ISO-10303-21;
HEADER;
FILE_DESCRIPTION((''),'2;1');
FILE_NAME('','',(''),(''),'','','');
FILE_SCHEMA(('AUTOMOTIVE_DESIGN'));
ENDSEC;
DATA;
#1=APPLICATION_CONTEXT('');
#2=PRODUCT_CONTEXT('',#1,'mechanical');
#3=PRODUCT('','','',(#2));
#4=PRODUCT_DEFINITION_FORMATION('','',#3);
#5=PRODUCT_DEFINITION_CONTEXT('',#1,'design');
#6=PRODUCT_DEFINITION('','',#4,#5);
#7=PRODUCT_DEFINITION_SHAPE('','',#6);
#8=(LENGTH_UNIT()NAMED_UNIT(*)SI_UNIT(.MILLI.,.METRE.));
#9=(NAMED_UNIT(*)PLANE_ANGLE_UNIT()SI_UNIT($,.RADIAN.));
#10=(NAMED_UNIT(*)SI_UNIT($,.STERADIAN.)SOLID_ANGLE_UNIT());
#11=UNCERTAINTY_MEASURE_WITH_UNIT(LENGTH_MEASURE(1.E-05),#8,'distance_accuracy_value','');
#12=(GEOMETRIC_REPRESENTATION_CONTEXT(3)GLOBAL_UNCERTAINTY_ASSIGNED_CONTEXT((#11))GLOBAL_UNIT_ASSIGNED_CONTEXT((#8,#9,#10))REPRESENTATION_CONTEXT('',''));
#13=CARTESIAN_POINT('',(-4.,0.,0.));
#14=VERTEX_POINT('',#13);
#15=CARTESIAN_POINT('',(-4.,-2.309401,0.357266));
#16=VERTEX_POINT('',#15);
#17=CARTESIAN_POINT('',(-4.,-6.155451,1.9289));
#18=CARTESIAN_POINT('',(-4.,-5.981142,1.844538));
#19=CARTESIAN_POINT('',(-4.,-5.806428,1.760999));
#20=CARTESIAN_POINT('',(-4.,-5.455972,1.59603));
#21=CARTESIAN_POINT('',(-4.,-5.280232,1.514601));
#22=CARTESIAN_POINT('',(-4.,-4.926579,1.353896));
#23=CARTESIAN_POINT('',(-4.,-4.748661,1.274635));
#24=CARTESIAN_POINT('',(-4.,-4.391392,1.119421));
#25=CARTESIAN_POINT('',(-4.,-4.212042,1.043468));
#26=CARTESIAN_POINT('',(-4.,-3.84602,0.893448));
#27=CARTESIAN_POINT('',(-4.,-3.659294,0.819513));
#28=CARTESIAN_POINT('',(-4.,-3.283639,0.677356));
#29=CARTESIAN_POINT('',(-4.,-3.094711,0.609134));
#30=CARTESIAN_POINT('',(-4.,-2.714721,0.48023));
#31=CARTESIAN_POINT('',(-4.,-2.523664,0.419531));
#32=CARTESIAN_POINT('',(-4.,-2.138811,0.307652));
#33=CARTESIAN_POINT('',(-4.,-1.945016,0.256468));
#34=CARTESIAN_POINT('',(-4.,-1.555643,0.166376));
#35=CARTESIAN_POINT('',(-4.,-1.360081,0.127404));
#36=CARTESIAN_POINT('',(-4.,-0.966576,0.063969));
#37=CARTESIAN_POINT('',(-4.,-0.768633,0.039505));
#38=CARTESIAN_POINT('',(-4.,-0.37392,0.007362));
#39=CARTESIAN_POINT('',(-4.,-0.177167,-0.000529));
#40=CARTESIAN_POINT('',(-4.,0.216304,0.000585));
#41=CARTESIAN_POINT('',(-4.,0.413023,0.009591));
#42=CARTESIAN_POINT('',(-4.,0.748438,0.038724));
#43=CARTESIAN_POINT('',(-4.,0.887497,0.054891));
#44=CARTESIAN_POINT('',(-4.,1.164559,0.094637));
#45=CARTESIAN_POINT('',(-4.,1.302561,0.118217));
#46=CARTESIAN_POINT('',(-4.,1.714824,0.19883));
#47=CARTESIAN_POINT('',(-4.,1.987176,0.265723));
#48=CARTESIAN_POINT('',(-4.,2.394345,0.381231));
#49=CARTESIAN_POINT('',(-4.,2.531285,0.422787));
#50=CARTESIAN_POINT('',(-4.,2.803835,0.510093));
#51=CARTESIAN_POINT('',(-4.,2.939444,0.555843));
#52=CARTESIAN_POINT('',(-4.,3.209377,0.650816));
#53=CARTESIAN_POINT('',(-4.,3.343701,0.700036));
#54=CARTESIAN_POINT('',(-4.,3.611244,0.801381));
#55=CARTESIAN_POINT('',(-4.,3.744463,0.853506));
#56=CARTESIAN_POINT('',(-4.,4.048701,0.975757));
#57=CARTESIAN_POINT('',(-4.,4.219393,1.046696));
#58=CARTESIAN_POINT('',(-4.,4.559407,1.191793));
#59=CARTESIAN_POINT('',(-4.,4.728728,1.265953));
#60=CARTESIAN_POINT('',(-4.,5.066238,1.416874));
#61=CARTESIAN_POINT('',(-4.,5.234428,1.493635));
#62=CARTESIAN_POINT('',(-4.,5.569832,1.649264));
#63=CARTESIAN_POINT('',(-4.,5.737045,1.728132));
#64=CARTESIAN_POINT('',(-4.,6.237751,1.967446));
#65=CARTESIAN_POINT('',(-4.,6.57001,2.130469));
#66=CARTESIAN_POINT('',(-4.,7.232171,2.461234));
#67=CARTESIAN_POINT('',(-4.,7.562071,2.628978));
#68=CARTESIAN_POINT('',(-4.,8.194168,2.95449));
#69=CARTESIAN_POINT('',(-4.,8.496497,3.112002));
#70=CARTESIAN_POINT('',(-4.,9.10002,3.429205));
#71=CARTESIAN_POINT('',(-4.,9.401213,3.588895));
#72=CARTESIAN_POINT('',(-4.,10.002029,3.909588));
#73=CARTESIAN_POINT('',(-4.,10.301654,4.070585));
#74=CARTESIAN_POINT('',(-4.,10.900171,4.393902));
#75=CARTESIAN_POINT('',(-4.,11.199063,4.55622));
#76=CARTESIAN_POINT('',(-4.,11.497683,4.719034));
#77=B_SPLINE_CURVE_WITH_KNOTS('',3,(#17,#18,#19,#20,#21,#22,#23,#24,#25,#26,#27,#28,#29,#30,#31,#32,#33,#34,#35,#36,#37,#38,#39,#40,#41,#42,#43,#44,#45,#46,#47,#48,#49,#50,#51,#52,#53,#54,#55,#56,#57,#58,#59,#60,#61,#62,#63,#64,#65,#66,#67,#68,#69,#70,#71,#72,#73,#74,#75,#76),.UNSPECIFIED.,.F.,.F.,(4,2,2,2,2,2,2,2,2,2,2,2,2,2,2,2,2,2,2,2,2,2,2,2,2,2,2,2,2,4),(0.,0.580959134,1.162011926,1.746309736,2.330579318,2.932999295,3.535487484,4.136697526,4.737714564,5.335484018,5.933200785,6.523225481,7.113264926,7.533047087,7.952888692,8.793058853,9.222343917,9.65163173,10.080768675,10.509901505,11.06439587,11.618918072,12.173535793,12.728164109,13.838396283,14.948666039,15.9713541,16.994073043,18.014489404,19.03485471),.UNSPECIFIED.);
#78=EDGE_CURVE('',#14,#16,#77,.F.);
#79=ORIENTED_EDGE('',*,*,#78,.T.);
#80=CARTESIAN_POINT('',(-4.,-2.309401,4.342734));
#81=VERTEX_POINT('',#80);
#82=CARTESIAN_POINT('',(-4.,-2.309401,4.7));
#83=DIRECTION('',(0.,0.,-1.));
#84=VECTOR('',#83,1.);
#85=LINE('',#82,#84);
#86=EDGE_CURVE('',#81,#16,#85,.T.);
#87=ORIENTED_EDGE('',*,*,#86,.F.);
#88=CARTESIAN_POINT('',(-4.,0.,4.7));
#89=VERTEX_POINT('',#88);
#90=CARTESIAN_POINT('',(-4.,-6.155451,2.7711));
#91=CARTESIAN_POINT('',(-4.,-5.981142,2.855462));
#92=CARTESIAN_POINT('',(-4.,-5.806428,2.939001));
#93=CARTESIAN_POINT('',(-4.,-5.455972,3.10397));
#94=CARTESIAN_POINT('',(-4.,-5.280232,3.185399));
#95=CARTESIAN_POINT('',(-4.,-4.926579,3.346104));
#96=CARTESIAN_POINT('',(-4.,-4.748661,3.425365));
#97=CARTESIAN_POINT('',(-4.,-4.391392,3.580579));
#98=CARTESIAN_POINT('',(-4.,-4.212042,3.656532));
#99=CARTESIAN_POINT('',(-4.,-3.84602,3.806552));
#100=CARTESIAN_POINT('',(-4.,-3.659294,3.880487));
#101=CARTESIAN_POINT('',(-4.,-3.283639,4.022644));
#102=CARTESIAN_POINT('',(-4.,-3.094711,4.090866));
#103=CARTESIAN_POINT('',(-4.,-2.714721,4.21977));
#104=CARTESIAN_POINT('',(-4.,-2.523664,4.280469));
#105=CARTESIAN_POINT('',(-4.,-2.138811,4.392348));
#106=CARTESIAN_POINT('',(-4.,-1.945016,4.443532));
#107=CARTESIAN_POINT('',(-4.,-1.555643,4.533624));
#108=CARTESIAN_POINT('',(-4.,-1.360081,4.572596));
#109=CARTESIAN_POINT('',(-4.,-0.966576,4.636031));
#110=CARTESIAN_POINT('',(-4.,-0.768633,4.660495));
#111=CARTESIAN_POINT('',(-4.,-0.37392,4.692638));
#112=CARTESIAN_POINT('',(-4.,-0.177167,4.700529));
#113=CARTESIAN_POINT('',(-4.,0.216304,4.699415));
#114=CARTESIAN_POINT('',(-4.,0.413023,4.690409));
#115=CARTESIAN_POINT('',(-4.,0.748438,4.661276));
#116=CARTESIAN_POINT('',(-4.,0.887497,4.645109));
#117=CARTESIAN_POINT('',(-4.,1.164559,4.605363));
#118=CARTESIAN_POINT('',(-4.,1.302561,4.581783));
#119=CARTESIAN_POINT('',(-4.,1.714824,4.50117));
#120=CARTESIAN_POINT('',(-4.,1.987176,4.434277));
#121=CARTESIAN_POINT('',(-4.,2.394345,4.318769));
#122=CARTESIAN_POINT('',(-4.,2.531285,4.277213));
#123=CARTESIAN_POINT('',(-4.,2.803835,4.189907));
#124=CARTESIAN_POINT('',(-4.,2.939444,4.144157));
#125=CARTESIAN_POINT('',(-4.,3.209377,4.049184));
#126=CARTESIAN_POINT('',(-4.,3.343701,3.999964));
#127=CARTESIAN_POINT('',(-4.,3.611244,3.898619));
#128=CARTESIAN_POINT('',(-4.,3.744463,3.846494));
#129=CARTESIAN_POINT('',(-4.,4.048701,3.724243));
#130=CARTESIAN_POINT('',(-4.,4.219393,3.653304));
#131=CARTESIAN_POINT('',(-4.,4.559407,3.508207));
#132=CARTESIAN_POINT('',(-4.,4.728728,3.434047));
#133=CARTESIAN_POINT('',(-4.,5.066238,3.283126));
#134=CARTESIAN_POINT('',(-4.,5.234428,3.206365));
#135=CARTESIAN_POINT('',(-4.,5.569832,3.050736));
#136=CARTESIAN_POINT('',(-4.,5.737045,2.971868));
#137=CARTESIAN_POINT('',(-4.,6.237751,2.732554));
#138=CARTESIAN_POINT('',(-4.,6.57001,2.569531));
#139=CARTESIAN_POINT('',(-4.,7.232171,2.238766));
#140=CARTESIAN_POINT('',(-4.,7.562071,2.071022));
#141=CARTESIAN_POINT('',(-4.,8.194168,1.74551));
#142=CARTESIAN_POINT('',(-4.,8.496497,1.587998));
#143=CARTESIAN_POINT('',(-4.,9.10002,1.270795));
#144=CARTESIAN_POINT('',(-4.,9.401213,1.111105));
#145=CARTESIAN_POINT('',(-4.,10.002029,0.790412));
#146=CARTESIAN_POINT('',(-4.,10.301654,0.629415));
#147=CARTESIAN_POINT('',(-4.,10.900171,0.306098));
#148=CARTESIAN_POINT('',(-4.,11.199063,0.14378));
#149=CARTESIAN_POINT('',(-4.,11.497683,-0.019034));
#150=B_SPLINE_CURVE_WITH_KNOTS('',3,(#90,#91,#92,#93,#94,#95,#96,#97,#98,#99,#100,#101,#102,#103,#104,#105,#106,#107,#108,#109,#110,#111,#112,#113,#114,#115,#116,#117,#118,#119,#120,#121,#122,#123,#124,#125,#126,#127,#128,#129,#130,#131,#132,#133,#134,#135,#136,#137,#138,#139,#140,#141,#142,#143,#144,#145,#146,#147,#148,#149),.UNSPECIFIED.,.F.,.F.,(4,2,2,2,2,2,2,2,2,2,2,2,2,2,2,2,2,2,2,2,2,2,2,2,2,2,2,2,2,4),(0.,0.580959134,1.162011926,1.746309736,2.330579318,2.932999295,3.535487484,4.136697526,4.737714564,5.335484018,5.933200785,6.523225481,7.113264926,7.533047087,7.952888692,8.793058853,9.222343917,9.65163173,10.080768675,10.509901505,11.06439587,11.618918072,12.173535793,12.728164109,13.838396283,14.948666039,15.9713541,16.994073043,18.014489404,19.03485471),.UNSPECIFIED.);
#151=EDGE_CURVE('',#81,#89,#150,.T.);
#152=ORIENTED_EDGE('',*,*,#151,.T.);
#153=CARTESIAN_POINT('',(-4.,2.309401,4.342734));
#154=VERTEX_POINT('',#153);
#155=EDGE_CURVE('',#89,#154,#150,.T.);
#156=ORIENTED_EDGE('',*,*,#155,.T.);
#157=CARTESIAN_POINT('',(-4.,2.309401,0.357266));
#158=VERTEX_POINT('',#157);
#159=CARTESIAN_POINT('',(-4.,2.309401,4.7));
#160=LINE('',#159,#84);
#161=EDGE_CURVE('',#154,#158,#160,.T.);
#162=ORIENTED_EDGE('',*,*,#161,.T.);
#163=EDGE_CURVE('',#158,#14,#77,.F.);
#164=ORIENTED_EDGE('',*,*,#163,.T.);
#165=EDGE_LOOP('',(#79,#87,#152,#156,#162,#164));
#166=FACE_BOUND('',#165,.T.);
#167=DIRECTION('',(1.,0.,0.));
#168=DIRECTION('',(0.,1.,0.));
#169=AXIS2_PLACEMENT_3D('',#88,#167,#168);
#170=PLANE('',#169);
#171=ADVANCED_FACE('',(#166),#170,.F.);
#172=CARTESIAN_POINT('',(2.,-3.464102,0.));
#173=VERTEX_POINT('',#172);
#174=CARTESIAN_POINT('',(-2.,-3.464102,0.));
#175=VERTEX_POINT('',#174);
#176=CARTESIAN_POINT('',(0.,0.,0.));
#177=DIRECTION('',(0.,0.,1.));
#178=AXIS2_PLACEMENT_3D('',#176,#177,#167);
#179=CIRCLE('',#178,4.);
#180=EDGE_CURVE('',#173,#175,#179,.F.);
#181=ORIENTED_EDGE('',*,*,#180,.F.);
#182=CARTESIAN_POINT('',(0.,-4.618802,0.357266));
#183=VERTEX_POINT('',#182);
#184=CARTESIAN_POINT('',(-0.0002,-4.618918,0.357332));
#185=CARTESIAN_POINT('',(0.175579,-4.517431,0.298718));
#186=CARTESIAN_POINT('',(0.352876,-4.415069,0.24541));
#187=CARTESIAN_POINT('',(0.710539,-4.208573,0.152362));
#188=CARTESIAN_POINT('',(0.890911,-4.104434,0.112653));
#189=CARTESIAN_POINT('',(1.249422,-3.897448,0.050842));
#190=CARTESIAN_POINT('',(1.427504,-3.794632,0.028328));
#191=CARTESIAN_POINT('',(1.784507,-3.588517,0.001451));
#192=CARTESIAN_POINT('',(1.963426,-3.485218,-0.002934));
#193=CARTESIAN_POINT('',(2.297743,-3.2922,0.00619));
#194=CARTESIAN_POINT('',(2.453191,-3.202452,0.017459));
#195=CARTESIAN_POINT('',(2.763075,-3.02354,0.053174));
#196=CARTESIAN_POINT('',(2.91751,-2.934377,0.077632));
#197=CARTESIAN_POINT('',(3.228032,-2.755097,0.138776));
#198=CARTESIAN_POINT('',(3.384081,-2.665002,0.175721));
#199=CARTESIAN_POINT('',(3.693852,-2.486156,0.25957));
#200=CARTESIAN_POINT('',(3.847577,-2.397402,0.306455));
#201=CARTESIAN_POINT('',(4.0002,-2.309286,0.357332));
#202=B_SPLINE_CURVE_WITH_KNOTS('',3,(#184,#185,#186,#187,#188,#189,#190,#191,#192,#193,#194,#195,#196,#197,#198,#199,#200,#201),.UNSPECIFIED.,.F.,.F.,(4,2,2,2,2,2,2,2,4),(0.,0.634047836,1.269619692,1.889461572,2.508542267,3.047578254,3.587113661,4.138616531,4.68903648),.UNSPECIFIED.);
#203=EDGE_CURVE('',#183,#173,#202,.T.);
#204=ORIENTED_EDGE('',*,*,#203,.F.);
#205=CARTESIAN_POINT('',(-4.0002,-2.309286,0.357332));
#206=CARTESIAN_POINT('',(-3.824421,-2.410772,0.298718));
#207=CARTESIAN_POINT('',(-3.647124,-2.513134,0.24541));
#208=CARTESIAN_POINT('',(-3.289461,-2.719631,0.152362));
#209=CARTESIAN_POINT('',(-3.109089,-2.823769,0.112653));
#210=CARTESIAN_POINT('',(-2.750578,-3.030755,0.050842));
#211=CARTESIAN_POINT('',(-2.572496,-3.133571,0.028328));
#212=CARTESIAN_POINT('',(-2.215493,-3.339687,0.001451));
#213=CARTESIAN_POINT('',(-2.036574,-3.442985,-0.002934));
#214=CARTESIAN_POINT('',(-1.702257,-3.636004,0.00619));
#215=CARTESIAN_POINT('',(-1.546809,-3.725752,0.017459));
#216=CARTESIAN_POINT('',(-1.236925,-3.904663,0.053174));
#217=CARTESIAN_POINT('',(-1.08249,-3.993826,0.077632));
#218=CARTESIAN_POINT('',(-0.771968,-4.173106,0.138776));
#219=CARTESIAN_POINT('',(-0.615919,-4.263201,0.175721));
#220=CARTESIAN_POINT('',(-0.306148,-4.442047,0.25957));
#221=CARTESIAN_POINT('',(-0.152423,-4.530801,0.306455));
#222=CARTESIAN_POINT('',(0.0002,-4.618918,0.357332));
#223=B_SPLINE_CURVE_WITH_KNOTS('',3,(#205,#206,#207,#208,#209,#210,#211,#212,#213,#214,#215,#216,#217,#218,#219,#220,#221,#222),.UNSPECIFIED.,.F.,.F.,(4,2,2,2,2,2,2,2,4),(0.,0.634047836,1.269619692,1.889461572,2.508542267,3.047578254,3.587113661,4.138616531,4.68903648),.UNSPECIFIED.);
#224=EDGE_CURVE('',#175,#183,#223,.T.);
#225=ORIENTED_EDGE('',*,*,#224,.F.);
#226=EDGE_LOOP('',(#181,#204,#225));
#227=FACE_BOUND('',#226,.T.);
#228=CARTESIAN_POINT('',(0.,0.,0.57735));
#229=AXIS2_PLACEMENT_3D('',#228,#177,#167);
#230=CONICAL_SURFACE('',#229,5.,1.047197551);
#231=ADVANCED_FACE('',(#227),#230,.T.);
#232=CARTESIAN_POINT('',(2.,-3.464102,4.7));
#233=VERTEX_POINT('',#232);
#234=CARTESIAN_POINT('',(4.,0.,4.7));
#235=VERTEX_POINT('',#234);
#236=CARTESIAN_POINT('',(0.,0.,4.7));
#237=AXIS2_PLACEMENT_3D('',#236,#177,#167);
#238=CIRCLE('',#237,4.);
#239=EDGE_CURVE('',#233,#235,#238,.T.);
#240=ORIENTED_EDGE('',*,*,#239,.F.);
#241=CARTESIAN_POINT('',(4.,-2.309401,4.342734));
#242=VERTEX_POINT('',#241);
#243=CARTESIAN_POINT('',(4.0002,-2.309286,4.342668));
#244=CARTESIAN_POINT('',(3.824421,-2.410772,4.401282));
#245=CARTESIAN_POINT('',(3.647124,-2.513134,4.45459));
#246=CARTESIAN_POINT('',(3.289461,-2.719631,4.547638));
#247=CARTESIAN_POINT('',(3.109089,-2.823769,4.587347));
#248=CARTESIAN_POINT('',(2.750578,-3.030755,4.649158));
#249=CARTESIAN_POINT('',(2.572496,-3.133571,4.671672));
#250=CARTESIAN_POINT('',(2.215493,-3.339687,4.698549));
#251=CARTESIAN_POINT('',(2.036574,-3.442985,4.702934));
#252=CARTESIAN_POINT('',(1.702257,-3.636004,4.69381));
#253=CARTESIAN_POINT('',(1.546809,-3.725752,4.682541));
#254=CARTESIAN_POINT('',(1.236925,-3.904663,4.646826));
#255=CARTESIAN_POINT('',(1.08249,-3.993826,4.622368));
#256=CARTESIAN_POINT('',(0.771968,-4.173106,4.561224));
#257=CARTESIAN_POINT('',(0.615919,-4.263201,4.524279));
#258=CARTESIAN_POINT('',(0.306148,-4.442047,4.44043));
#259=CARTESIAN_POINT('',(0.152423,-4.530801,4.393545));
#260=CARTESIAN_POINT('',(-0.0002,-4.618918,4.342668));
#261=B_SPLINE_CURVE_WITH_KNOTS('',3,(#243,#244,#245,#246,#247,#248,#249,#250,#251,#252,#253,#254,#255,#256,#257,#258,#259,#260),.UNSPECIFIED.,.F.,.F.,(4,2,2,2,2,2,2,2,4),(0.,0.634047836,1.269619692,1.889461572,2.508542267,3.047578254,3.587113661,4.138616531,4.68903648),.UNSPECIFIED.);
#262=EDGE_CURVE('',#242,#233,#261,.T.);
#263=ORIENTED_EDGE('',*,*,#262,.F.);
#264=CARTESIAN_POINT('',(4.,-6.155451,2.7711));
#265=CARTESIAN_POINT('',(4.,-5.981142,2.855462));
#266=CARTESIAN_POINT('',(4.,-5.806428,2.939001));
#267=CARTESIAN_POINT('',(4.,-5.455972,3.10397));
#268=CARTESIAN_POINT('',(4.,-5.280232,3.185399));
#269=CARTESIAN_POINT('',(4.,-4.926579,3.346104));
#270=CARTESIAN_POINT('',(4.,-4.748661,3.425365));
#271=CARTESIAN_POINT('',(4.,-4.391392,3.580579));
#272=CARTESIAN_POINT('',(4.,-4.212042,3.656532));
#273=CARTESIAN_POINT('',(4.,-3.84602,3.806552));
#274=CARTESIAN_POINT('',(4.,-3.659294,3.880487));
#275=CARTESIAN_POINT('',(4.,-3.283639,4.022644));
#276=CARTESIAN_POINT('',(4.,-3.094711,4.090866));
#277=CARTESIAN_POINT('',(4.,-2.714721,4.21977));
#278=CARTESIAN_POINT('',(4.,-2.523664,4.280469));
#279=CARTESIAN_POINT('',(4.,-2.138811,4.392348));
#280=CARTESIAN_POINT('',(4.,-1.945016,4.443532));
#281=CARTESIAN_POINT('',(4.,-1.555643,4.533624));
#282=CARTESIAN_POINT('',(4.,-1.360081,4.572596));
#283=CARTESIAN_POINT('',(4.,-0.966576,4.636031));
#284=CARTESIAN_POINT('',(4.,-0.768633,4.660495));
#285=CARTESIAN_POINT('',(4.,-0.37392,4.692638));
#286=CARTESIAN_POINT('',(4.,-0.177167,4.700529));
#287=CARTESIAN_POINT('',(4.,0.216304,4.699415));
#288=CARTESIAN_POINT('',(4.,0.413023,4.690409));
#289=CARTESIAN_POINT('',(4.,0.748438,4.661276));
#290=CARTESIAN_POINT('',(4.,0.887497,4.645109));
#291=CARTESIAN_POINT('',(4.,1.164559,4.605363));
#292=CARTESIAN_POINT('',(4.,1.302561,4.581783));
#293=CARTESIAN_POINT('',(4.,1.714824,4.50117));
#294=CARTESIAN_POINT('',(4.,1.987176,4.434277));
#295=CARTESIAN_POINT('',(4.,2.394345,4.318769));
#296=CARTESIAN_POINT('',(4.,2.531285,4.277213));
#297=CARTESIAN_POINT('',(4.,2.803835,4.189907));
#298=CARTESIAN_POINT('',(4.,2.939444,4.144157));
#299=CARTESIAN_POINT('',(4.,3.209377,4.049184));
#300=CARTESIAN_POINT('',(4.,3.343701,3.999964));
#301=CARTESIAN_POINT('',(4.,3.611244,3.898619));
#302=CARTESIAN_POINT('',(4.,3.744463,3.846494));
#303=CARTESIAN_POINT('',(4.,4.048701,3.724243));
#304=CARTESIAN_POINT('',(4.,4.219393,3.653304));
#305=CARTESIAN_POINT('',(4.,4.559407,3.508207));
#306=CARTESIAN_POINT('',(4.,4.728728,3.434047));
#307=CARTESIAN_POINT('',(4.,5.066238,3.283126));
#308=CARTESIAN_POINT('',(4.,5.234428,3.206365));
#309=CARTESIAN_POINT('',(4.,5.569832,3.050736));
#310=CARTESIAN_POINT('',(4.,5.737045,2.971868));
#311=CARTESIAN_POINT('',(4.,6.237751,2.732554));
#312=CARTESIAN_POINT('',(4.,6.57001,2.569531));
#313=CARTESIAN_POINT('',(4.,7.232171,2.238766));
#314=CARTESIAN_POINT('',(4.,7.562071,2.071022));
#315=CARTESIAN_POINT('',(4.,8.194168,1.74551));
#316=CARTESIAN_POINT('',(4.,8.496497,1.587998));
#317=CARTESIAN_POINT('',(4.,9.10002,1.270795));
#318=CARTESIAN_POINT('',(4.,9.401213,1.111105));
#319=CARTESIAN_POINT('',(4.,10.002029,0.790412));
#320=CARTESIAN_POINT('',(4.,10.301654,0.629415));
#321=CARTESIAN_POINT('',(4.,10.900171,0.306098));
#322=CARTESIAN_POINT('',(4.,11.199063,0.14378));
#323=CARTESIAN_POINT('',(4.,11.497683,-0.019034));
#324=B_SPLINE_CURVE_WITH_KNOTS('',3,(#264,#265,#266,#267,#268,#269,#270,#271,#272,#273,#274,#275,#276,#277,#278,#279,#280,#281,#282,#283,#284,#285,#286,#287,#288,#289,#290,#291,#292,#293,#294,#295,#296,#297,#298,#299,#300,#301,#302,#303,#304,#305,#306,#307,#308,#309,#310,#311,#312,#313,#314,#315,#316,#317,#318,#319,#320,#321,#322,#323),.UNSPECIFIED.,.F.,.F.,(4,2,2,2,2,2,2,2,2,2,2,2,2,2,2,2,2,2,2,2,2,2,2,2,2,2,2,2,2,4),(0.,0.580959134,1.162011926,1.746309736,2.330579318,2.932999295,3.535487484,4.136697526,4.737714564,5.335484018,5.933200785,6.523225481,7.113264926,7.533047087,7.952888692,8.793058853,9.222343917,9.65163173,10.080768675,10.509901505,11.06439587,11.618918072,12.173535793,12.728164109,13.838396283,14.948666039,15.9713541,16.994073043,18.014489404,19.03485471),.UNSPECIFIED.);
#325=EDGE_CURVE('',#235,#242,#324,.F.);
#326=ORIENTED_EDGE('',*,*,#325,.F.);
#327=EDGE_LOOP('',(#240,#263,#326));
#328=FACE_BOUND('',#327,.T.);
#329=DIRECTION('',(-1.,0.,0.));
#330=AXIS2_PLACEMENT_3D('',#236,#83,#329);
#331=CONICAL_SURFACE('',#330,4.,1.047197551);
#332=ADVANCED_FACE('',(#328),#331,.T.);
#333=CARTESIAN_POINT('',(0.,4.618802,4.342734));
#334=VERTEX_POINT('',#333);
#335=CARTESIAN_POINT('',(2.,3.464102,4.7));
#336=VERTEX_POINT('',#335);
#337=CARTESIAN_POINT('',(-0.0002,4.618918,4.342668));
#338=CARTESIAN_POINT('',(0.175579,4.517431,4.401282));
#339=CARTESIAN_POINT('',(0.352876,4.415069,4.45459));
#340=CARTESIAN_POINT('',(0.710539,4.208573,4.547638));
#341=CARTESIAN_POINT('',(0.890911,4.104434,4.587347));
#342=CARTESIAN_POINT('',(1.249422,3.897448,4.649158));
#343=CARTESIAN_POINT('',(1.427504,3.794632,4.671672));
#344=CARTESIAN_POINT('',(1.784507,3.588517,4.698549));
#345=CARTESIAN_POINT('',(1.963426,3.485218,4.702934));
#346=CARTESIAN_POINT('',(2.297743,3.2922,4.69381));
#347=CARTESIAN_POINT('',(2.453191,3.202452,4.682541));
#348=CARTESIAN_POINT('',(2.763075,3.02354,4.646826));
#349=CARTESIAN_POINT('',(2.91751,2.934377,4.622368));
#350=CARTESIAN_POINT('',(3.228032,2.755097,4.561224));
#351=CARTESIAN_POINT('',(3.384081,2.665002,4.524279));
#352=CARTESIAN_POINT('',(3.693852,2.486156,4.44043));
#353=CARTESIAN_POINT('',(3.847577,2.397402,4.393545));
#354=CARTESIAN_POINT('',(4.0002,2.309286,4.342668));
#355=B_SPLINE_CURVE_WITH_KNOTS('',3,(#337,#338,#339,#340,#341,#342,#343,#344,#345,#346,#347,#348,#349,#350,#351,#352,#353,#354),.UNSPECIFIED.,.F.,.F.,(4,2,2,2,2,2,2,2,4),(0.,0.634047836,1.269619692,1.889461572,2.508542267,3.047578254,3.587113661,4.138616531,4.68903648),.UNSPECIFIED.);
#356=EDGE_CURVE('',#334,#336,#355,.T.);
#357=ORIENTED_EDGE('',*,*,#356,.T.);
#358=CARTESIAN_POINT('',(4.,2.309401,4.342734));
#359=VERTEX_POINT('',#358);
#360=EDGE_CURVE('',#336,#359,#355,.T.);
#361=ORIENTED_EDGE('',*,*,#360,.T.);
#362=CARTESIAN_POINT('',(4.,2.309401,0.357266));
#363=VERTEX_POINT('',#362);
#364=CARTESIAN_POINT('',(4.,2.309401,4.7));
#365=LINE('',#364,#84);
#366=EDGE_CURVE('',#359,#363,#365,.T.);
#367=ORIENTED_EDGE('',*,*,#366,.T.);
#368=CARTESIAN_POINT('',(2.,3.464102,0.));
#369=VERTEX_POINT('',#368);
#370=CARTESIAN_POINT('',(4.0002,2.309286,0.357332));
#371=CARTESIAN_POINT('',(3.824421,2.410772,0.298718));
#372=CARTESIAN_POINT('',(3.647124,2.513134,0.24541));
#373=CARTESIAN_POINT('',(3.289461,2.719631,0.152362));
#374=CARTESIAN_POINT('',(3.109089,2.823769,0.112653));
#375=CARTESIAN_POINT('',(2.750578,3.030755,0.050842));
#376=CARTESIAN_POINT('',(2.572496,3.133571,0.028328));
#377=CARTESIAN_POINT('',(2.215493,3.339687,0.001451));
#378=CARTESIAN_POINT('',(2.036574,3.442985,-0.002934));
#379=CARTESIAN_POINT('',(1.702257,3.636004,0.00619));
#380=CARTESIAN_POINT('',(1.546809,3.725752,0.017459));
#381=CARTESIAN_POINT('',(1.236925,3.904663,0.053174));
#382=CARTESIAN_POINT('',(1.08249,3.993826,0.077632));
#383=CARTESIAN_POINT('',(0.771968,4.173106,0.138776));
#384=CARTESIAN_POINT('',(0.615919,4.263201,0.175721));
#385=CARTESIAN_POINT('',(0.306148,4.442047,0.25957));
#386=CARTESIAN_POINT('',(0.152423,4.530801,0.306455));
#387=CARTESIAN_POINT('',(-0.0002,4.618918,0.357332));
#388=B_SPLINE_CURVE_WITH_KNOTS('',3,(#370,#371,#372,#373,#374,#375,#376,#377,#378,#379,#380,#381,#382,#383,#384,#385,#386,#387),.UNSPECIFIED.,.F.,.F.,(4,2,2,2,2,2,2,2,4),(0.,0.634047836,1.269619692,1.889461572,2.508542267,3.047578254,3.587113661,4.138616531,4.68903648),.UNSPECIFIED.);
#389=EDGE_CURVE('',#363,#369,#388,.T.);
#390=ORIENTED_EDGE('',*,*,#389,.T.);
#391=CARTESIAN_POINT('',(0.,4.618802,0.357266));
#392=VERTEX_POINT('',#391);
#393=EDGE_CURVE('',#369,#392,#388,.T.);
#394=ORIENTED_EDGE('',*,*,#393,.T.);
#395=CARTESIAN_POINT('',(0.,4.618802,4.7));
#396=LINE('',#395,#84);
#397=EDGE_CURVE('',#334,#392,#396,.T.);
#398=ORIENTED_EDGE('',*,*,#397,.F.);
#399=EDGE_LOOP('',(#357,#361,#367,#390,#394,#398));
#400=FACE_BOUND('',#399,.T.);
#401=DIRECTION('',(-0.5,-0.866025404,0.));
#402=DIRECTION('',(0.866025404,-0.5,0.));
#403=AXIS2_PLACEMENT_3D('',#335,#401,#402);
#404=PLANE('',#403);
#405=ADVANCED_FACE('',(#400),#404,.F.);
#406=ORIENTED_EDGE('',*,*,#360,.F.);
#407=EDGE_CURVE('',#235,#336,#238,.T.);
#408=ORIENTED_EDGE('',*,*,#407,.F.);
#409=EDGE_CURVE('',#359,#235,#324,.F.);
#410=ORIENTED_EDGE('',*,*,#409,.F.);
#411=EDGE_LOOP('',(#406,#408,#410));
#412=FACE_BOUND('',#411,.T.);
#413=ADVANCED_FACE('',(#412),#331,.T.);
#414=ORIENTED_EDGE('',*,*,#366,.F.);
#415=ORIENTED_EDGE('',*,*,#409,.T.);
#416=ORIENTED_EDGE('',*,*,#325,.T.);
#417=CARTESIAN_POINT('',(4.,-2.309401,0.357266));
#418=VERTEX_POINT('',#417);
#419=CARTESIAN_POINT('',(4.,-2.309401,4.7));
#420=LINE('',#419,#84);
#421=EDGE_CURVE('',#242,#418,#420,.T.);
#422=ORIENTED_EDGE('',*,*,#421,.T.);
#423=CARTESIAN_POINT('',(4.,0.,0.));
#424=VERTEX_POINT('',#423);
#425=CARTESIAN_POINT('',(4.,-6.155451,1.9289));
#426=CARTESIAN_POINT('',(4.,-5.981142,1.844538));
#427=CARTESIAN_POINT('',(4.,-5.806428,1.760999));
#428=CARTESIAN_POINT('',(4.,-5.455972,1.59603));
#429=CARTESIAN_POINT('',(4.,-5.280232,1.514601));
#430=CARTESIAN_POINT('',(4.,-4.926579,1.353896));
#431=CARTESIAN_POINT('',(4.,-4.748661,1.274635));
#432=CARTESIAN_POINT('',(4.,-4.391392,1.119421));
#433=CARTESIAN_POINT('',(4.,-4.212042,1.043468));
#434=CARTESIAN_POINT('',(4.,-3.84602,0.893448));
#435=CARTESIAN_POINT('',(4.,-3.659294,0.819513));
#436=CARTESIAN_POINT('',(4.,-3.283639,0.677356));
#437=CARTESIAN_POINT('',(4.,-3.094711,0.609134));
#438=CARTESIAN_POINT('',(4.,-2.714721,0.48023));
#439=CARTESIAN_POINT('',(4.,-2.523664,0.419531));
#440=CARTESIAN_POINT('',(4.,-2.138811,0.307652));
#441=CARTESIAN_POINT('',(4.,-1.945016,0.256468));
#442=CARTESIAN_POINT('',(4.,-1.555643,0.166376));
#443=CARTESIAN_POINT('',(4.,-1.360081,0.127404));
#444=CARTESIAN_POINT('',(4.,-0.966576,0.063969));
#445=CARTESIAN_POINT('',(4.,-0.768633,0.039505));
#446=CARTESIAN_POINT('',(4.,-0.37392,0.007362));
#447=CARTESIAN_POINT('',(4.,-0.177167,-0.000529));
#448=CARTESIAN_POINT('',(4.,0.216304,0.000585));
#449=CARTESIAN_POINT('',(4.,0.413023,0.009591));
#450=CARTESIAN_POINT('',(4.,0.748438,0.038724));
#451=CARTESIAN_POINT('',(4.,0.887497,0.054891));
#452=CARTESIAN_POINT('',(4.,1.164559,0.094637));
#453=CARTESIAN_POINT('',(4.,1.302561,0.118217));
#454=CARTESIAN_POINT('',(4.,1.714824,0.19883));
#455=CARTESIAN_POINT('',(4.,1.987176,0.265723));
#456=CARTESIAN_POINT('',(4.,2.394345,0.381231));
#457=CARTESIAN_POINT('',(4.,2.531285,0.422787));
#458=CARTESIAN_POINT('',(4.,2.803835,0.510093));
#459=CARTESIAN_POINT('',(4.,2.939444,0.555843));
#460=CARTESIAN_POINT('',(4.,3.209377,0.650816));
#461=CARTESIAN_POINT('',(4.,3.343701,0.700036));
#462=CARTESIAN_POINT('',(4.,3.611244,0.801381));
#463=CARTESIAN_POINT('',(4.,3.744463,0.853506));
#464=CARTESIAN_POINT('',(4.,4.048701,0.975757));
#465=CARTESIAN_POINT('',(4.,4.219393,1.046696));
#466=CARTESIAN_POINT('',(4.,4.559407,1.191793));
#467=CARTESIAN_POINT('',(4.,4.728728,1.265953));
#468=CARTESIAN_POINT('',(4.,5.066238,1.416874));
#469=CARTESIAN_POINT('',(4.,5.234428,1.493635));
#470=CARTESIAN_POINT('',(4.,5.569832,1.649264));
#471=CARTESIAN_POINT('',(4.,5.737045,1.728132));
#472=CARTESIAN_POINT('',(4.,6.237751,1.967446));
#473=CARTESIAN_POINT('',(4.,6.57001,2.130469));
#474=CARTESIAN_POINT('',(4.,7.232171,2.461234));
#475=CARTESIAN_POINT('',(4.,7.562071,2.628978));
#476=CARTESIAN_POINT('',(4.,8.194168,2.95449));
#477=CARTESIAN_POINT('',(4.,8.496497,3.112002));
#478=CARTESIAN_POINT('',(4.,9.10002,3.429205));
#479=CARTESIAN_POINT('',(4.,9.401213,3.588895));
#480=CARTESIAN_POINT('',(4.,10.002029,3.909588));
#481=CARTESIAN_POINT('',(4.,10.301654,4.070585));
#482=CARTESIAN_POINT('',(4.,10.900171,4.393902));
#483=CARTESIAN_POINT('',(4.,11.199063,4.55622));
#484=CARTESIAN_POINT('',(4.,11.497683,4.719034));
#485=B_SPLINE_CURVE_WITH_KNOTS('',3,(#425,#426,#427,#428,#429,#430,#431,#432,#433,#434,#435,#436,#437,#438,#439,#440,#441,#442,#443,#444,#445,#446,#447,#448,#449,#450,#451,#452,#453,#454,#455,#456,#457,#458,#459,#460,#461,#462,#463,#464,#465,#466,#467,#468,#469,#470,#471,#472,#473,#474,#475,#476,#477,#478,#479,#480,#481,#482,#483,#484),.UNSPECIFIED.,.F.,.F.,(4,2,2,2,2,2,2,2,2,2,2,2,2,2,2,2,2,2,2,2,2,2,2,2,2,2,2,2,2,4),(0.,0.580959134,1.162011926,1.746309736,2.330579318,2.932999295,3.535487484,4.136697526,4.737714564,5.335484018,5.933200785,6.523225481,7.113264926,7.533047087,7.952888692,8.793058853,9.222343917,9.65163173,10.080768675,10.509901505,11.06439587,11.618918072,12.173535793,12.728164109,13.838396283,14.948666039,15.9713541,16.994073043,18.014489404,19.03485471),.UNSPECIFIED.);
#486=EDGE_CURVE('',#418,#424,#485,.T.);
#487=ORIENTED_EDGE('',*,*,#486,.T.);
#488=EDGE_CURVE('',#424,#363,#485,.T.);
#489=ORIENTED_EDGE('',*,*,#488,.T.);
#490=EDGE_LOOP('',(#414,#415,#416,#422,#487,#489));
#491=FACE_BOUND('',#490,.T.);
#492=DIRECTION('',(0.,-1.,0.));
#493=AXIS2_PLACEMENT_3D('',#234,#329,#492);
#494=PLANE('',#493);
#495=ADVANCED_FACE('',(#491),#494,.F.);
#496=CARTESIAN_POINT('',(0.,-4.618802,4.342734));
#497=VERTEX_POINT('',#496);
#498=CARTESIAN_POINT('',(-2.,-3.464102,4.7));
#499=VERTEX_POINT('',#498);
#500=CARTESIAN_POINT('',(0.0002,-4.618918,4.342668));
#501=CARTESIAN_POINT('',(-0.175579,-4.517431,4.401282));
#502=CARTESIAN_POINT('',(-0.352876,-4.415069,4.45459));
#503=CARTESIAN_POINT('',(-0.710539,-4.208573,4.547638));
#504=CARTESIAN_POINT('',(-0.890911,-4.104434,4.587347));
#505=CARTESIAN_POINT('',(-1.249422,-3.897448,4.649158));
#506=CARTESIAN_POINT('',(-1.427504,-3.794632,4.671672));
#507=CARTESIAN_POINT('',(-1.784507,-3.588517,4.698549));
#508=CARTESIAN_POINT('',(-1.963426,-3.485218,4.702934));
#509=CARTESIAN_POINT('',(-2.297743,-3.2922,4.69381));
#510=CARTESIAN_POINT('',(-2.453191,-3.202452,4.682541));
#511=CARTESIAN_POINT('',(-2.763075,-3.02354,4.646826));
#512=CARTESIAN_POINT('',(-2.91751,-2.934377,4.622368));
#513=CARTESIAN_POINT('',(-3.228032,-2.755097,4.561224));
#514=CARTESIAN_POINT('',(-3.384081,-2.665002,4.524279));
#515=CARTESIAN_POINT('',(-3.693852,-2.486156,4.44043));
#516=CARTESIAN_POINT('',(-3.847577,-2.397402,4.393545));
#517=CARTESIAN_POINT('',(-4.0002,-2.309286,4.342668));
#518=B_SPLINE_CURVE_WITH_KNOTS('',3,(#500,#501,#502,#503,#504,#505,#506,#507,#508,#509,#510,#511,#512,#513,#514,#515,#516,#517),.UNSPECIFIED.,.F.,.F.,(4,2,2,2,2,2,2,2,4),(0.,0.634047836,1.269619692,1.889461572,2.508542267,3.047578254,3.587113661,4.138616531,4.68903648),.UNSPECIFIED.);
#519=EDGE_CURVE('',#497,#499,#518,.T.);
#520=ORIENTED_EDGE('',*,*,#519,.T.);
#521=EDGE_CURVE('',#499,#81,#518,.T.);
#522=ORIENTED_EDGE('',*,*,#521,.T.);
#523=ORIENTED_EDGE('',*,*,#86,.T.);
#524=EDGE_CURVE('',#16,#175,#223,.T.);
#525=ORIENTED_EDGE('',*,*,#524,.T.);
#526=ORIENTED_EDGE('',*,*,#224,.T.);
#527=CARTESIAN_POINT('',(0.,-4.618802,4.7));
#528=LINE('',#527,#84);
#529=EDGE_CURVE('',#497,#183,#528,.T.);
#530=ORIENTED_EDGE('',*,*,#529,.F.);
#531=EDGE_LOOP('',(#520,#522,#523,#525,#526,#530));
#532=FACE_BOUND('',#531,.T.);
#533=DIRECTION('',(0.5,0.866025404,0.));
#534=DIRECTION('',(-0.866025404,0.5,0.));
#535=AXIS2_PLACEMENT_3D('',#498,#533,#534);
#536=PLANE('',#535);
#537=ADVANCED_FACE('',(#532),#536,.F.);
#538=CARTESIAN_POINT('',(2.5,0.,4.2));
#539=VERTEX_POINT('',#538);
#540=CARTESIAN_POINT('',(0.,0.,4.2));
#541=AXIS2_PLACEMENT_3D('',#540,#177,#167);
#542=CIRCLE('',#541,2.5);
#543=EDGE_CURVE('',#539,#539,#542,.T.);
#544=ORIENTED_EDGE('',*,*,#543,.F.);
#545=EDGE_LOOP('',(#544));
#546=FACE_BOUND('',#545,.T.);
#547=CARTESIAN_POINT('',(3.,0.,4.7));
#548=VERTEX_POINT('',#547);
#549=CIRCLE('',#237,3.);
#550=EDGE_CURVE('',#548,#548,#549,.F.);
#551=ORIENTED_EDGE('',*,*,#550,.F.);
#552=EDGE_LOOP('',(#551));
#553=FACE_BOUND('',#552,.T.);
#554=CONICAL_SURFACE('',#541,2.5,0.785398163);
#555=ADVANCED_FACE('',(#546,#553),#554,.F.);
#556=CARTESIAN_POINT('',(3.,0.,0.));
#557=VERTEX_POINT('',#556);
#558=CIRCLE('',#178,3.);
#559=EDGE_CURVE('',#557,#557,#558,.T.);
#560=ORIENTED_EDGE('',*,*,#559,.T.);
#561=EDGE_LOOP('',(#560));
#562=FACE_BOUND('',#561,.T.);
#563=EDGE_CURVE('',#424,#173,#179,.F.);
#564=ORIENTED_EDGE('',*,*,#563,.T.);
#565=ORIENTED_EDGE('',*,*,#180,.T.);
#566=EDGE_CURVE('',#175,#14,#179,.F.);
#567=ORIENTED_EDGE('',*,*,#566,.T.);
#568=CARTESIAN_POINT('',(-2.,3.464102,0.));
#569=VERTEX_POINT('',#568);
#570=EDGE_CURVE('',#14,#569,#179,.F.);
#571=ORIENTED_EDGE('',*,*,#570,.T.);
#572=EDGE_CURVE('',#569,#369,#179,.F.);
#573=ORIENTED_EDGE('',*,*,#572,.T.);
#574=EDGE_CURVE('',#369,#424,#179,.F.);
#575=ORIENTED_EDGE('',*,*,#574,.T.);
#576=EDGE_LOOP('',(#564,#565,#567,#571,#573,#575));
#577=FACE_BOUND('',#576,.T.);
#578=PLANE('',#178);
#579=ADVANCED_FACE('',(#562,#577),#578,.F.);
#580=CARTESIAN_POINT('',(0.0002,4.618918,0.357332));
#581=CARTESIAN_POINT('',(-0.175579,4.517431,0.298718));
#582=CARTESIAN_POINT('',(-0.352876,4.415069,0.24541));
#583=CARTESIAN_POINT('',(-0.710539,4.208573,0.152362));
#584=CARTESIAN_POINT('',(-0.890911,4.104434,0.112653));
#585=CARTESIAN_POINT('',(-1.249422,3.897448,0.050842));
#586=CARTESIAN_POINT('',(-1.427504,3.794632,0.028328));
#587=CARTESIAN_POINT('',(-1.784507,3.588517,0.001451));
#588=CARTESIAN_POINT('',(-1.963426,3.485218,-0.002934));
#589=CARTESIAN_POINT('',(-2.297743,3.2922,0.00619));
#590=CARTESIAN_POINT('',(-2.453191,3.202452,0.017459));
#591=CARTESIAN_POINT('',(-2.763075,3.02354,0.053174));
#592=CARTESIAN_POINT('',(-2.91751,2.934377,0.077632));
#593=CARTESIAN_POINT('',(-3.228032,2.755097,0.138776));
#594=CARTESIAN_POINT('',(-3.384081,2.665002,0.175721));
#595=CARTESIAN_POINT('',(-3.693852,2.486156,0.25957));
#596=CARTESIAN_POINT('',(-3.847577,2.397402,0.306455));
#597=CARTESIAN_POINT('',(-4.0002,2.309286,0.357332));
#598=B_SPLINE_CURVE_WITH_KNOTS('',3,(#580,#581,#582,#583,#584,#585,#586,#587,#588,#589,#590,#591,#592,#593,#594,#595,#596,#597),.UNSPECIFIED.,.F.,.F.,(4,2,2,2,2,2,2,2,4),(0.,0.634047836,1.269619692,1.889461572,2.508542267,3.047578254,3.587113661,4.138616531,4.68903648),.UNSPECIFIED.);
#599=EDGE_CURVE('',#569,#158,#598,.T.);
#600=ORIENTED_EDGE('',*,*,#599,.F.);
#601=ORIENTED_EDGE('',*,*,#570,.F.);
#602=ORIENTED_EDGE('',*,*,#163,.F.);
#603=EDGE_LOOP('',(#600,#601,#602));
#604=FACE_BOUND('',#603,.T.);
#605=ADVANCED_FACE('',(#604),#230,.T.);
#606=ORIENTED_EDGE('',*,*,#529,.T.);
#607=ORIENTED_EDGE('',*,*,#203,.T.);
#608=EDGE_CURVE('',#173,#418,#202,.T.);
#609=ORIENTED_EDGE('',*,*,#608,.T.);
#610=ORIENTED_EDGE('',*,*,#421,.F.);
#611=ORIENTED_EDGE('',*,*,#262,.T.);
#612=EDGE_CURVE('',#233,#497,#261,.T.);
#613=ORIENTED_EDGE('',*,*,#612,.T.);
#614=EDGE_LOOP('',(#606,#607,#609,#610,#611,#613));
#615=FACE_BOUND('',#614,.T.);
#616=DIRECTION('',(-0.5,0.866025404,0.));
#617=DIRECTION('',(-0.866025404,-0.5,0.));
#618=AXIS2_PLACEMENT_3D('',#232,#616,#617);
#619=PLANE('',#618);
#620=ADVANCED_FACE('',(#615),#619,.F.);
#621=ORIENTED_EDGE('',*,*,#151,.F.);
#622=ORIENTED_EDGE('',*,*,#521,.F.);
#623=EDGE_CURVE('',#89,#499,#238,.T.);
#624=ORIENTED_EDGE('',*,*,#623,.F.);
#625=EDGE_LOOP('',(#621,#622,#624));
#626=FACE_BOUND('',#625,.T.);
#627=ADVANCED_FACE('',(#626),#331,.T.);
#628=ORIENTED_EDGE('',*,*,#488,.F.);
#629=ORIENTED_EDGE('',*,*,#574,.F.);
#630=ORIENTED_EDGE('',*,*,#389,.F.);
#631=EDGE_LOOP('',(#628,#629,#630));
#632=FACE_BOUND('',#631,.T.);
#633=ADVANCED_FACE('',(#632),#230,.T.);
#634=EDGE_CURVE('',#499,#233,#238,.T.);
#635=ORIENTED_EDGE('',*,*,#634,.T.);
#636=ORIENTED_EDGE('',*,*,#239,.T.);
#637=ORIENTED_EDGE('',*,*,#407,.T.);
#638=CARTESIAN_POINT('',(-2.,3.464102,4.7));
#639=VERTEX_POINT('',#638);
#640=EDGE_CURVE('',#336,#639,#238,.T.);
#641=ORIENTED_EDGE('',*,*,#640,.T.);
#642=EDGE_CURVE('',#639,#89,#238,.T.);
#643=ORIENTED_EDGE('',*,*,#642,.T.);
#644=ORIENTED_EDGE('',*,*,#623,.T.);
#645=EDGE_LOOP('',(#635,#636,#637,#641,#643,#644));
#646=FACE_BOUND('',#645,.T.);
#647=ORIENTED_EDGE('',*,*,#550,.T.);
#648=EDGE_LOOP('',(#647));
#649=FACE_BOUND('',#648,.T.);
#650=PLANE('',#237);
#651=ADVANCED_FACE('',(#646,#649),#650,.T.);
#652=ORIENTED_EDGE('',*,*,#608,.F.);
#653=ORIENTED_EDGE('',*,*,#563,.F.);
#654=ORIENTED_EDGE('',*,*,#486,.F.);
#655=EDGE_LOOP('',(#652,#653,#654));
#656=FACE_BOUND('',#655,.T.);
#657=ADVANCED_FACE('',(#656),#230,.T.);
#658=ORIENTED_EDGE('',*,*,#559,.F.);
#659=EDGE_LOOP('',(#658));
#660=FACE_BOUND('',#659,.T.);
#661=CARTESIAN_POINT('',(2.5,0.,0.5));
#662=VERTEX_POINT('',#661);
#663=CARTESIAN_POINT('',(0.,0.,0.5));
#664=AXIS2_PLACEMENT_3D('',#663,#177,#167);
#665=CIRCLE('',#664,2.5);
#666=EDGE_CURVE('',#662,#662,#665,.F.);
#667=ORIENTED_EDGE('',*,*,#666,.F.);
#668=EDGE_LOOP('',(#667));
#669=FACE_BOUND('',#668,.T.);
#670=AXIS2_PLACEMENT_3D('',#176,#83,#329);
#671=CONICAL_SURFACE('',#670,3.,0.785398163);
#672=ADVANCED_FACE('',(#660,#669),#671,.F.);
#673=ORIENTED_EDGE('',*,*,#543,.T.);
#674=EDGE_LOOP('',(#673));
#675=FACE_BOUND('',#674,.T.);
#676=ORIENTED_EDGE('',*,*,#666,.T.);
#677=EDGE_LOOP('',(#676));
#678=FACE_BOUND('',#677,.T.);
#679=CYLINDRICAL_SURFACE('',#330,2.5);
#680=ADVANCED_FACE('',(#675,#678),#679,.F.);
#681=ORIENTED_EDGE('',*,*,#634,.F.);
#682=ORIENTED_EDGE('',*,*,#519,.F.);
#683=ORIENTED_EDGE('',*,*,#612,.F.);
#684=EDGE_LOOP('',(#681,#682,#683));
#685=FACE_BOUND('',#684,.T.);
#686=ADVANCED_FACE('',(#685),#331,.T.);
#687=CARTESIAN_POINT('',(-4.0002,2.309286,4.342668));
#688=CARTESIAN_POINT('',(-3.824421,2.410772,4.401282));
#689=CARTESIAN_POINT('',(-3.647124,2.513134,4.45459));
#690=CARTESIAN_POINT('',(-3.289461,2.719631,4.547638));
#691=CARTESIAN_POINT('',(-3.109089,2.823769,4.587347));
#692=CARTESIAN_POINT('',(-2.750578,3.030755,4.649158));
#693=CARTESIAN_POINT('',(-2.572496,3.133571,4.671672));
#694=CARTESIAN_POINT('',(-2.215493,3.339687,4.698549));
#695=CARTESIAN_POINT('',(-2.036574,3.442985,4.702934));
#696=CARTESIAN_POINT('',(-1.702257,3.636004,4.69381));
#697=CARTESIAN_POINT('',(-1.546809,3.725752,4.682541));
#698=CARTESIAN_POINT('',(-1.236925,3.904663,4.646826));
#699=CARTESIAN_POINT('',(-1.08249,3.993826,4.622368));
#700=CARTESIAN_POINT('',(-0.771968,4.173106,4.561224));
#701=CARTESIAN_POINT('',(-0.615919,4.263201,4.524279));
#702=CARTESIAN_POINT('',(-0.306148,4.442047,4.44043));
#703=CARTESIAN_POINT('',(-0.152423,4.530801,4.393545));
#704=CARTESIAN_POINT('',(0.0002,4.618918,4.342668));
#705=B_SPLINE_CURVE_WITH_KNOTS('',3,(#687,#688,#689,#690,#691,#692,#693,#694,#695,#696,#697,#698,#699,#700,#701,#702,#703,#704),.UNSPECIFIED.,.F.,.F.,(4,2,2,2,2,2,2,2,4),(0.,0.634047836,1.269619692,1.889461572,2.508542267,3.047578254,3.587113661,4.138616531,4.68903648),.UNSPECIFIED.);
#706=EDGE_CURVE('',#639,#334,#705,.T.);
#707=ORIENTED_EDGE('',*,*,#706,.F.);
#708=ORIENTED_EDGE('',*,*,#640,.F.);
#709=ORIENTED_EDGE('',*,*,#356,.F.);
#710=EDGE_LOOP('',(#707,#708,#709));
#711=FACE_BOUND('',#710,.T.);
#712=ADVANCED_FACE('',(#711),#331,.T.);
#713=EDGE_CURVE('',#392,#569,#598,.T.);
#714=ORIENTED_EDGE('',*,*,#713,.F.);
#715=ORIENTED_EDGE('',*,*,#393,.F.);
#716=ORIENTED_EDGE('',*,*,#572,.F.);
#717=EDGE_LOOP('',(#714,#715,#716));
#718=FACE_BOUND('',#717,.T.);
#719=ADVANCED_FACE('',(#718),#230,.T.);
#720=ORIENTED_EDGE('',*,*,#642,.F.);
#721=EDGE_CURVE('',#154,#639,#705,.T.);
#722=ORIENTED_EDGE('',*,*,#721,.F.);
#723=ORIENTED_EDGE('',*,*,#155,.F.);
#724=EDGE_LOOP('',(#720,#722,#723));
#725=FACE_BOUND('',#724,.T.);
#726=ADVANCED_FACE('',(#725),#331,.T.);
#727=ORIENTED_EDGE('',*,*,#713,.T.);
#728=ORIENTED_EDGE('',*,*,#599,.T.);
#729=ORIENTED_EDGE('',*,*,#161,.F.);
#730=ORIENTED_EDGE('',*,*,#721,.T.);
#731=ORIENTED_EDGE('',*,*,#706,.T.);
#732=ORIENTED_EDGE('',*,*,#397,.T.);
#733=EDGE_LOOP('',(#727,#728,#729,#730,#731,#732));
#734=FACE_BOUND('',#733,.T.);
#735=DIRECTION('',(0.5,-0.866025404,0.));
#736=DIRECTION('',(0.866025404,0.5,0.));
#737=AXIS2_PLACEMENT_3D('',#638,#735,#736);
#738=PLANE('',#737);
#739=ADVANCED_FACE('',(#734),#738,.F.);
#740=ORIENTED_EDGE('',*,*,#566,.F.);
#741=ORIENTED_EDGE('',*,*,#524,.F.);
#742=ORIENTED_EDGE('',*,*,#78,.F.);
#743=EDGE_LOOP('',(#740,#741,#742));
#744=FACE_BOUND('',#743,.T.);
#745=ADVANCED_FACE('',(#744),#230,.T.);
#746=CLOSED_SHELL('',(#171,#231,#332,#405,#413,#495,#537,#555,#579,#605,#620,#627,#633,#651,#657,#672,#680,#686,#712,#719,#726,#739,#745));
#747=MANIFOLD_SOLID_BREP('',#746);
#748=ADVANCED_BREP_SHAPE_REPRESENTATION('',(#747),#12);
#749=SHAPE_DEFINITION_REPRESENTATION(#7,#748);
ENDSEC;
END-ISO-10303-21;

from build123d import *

# Parameters (mm, degrees)
SKETCH1_R           = 5
SKETCH1_R_2         = 2.5
BOSS_EXTRUDE1_DEPTH = 4.7
CHAMFER1_SIZE       = 1
CHAMFER1_SIZE2      = 0.577350269
CHAMFER2_SIZE       = 1
CHAMFER2_SIZE2      = 0.577350269
SKETCH1_3_R         = 5
CUT_EXTRUDE1_DEPTH  = 9.490583019
CHAMFER3_SIZE       = 0.5


with BuildPart() as part:
    # Sketch1 → Boss-Extrude1 (new body)
    with BuildSketch(Plane.XY):
        Circle(SKETCH1_R)
        Circle(SKETCH1_R_2, mode=Mode.SUBTRACT)
    extrude(amount=BOSS_EXTRUDE1_DEPTH)

    # Chamfer1
    chamfer1_edges = [part.edges().sort_by_distance(p)[0] for p in [
        (-5, 0, 4.7),
    ]]
    chamfer1_side = [part.faces().sort_by_distance(p)[0] for p in [
        (-4.858578644, 0, 4.7),
    ]]
    chamfer(chamfer1_edges, length=CHAMFER1_SIZE, length2=CHAMFER1_SIZE2, reference=chamfer1_side[0])

    # Chamfer2
    chamfer2_edges = [part.edges().sort_by_distance(p)[0] for p in [
        (-5, 0, 0),
    ]]
    chamfer2_side = [part.faces().sort_by_distance(p)[0] for p in [
        (-4.858578644, 0, 0),
    ]]
    chamfer(chamfer2_edges, length=CHAMFER2_SIZE, length2=CHAMFER2_SIZE2, reference=chamfer2_side[0])

    # Sketch1<3> → Cut-Extrude1 (cut, through all)
    with BuildSketch(Plane.XY):
        Circle(SKETCH1_3_R)
        Polygon((-4, 2.309401077), (0, 4.618802154), (4, 2.309401077), (4, -2.309401077), (0, -4.618802154), (-4, -2.309401077), align=None, mode=Mode.SUBTRACT)
    extrude(amount=CUT_EXTRUDE1_DEPTH, mode=Mode.SUBTRACT)

    # Chamfer3
    chamfer3_edges = [part.edges().sort_by_distance(p)[0] for p in [
        (-2.5, 0, 0),
        (-2.5, 0, 4.7),
    ]]
    chamfer(chamfer3_edges, length=CHAMFER3_SIZE)


solid = part.part
